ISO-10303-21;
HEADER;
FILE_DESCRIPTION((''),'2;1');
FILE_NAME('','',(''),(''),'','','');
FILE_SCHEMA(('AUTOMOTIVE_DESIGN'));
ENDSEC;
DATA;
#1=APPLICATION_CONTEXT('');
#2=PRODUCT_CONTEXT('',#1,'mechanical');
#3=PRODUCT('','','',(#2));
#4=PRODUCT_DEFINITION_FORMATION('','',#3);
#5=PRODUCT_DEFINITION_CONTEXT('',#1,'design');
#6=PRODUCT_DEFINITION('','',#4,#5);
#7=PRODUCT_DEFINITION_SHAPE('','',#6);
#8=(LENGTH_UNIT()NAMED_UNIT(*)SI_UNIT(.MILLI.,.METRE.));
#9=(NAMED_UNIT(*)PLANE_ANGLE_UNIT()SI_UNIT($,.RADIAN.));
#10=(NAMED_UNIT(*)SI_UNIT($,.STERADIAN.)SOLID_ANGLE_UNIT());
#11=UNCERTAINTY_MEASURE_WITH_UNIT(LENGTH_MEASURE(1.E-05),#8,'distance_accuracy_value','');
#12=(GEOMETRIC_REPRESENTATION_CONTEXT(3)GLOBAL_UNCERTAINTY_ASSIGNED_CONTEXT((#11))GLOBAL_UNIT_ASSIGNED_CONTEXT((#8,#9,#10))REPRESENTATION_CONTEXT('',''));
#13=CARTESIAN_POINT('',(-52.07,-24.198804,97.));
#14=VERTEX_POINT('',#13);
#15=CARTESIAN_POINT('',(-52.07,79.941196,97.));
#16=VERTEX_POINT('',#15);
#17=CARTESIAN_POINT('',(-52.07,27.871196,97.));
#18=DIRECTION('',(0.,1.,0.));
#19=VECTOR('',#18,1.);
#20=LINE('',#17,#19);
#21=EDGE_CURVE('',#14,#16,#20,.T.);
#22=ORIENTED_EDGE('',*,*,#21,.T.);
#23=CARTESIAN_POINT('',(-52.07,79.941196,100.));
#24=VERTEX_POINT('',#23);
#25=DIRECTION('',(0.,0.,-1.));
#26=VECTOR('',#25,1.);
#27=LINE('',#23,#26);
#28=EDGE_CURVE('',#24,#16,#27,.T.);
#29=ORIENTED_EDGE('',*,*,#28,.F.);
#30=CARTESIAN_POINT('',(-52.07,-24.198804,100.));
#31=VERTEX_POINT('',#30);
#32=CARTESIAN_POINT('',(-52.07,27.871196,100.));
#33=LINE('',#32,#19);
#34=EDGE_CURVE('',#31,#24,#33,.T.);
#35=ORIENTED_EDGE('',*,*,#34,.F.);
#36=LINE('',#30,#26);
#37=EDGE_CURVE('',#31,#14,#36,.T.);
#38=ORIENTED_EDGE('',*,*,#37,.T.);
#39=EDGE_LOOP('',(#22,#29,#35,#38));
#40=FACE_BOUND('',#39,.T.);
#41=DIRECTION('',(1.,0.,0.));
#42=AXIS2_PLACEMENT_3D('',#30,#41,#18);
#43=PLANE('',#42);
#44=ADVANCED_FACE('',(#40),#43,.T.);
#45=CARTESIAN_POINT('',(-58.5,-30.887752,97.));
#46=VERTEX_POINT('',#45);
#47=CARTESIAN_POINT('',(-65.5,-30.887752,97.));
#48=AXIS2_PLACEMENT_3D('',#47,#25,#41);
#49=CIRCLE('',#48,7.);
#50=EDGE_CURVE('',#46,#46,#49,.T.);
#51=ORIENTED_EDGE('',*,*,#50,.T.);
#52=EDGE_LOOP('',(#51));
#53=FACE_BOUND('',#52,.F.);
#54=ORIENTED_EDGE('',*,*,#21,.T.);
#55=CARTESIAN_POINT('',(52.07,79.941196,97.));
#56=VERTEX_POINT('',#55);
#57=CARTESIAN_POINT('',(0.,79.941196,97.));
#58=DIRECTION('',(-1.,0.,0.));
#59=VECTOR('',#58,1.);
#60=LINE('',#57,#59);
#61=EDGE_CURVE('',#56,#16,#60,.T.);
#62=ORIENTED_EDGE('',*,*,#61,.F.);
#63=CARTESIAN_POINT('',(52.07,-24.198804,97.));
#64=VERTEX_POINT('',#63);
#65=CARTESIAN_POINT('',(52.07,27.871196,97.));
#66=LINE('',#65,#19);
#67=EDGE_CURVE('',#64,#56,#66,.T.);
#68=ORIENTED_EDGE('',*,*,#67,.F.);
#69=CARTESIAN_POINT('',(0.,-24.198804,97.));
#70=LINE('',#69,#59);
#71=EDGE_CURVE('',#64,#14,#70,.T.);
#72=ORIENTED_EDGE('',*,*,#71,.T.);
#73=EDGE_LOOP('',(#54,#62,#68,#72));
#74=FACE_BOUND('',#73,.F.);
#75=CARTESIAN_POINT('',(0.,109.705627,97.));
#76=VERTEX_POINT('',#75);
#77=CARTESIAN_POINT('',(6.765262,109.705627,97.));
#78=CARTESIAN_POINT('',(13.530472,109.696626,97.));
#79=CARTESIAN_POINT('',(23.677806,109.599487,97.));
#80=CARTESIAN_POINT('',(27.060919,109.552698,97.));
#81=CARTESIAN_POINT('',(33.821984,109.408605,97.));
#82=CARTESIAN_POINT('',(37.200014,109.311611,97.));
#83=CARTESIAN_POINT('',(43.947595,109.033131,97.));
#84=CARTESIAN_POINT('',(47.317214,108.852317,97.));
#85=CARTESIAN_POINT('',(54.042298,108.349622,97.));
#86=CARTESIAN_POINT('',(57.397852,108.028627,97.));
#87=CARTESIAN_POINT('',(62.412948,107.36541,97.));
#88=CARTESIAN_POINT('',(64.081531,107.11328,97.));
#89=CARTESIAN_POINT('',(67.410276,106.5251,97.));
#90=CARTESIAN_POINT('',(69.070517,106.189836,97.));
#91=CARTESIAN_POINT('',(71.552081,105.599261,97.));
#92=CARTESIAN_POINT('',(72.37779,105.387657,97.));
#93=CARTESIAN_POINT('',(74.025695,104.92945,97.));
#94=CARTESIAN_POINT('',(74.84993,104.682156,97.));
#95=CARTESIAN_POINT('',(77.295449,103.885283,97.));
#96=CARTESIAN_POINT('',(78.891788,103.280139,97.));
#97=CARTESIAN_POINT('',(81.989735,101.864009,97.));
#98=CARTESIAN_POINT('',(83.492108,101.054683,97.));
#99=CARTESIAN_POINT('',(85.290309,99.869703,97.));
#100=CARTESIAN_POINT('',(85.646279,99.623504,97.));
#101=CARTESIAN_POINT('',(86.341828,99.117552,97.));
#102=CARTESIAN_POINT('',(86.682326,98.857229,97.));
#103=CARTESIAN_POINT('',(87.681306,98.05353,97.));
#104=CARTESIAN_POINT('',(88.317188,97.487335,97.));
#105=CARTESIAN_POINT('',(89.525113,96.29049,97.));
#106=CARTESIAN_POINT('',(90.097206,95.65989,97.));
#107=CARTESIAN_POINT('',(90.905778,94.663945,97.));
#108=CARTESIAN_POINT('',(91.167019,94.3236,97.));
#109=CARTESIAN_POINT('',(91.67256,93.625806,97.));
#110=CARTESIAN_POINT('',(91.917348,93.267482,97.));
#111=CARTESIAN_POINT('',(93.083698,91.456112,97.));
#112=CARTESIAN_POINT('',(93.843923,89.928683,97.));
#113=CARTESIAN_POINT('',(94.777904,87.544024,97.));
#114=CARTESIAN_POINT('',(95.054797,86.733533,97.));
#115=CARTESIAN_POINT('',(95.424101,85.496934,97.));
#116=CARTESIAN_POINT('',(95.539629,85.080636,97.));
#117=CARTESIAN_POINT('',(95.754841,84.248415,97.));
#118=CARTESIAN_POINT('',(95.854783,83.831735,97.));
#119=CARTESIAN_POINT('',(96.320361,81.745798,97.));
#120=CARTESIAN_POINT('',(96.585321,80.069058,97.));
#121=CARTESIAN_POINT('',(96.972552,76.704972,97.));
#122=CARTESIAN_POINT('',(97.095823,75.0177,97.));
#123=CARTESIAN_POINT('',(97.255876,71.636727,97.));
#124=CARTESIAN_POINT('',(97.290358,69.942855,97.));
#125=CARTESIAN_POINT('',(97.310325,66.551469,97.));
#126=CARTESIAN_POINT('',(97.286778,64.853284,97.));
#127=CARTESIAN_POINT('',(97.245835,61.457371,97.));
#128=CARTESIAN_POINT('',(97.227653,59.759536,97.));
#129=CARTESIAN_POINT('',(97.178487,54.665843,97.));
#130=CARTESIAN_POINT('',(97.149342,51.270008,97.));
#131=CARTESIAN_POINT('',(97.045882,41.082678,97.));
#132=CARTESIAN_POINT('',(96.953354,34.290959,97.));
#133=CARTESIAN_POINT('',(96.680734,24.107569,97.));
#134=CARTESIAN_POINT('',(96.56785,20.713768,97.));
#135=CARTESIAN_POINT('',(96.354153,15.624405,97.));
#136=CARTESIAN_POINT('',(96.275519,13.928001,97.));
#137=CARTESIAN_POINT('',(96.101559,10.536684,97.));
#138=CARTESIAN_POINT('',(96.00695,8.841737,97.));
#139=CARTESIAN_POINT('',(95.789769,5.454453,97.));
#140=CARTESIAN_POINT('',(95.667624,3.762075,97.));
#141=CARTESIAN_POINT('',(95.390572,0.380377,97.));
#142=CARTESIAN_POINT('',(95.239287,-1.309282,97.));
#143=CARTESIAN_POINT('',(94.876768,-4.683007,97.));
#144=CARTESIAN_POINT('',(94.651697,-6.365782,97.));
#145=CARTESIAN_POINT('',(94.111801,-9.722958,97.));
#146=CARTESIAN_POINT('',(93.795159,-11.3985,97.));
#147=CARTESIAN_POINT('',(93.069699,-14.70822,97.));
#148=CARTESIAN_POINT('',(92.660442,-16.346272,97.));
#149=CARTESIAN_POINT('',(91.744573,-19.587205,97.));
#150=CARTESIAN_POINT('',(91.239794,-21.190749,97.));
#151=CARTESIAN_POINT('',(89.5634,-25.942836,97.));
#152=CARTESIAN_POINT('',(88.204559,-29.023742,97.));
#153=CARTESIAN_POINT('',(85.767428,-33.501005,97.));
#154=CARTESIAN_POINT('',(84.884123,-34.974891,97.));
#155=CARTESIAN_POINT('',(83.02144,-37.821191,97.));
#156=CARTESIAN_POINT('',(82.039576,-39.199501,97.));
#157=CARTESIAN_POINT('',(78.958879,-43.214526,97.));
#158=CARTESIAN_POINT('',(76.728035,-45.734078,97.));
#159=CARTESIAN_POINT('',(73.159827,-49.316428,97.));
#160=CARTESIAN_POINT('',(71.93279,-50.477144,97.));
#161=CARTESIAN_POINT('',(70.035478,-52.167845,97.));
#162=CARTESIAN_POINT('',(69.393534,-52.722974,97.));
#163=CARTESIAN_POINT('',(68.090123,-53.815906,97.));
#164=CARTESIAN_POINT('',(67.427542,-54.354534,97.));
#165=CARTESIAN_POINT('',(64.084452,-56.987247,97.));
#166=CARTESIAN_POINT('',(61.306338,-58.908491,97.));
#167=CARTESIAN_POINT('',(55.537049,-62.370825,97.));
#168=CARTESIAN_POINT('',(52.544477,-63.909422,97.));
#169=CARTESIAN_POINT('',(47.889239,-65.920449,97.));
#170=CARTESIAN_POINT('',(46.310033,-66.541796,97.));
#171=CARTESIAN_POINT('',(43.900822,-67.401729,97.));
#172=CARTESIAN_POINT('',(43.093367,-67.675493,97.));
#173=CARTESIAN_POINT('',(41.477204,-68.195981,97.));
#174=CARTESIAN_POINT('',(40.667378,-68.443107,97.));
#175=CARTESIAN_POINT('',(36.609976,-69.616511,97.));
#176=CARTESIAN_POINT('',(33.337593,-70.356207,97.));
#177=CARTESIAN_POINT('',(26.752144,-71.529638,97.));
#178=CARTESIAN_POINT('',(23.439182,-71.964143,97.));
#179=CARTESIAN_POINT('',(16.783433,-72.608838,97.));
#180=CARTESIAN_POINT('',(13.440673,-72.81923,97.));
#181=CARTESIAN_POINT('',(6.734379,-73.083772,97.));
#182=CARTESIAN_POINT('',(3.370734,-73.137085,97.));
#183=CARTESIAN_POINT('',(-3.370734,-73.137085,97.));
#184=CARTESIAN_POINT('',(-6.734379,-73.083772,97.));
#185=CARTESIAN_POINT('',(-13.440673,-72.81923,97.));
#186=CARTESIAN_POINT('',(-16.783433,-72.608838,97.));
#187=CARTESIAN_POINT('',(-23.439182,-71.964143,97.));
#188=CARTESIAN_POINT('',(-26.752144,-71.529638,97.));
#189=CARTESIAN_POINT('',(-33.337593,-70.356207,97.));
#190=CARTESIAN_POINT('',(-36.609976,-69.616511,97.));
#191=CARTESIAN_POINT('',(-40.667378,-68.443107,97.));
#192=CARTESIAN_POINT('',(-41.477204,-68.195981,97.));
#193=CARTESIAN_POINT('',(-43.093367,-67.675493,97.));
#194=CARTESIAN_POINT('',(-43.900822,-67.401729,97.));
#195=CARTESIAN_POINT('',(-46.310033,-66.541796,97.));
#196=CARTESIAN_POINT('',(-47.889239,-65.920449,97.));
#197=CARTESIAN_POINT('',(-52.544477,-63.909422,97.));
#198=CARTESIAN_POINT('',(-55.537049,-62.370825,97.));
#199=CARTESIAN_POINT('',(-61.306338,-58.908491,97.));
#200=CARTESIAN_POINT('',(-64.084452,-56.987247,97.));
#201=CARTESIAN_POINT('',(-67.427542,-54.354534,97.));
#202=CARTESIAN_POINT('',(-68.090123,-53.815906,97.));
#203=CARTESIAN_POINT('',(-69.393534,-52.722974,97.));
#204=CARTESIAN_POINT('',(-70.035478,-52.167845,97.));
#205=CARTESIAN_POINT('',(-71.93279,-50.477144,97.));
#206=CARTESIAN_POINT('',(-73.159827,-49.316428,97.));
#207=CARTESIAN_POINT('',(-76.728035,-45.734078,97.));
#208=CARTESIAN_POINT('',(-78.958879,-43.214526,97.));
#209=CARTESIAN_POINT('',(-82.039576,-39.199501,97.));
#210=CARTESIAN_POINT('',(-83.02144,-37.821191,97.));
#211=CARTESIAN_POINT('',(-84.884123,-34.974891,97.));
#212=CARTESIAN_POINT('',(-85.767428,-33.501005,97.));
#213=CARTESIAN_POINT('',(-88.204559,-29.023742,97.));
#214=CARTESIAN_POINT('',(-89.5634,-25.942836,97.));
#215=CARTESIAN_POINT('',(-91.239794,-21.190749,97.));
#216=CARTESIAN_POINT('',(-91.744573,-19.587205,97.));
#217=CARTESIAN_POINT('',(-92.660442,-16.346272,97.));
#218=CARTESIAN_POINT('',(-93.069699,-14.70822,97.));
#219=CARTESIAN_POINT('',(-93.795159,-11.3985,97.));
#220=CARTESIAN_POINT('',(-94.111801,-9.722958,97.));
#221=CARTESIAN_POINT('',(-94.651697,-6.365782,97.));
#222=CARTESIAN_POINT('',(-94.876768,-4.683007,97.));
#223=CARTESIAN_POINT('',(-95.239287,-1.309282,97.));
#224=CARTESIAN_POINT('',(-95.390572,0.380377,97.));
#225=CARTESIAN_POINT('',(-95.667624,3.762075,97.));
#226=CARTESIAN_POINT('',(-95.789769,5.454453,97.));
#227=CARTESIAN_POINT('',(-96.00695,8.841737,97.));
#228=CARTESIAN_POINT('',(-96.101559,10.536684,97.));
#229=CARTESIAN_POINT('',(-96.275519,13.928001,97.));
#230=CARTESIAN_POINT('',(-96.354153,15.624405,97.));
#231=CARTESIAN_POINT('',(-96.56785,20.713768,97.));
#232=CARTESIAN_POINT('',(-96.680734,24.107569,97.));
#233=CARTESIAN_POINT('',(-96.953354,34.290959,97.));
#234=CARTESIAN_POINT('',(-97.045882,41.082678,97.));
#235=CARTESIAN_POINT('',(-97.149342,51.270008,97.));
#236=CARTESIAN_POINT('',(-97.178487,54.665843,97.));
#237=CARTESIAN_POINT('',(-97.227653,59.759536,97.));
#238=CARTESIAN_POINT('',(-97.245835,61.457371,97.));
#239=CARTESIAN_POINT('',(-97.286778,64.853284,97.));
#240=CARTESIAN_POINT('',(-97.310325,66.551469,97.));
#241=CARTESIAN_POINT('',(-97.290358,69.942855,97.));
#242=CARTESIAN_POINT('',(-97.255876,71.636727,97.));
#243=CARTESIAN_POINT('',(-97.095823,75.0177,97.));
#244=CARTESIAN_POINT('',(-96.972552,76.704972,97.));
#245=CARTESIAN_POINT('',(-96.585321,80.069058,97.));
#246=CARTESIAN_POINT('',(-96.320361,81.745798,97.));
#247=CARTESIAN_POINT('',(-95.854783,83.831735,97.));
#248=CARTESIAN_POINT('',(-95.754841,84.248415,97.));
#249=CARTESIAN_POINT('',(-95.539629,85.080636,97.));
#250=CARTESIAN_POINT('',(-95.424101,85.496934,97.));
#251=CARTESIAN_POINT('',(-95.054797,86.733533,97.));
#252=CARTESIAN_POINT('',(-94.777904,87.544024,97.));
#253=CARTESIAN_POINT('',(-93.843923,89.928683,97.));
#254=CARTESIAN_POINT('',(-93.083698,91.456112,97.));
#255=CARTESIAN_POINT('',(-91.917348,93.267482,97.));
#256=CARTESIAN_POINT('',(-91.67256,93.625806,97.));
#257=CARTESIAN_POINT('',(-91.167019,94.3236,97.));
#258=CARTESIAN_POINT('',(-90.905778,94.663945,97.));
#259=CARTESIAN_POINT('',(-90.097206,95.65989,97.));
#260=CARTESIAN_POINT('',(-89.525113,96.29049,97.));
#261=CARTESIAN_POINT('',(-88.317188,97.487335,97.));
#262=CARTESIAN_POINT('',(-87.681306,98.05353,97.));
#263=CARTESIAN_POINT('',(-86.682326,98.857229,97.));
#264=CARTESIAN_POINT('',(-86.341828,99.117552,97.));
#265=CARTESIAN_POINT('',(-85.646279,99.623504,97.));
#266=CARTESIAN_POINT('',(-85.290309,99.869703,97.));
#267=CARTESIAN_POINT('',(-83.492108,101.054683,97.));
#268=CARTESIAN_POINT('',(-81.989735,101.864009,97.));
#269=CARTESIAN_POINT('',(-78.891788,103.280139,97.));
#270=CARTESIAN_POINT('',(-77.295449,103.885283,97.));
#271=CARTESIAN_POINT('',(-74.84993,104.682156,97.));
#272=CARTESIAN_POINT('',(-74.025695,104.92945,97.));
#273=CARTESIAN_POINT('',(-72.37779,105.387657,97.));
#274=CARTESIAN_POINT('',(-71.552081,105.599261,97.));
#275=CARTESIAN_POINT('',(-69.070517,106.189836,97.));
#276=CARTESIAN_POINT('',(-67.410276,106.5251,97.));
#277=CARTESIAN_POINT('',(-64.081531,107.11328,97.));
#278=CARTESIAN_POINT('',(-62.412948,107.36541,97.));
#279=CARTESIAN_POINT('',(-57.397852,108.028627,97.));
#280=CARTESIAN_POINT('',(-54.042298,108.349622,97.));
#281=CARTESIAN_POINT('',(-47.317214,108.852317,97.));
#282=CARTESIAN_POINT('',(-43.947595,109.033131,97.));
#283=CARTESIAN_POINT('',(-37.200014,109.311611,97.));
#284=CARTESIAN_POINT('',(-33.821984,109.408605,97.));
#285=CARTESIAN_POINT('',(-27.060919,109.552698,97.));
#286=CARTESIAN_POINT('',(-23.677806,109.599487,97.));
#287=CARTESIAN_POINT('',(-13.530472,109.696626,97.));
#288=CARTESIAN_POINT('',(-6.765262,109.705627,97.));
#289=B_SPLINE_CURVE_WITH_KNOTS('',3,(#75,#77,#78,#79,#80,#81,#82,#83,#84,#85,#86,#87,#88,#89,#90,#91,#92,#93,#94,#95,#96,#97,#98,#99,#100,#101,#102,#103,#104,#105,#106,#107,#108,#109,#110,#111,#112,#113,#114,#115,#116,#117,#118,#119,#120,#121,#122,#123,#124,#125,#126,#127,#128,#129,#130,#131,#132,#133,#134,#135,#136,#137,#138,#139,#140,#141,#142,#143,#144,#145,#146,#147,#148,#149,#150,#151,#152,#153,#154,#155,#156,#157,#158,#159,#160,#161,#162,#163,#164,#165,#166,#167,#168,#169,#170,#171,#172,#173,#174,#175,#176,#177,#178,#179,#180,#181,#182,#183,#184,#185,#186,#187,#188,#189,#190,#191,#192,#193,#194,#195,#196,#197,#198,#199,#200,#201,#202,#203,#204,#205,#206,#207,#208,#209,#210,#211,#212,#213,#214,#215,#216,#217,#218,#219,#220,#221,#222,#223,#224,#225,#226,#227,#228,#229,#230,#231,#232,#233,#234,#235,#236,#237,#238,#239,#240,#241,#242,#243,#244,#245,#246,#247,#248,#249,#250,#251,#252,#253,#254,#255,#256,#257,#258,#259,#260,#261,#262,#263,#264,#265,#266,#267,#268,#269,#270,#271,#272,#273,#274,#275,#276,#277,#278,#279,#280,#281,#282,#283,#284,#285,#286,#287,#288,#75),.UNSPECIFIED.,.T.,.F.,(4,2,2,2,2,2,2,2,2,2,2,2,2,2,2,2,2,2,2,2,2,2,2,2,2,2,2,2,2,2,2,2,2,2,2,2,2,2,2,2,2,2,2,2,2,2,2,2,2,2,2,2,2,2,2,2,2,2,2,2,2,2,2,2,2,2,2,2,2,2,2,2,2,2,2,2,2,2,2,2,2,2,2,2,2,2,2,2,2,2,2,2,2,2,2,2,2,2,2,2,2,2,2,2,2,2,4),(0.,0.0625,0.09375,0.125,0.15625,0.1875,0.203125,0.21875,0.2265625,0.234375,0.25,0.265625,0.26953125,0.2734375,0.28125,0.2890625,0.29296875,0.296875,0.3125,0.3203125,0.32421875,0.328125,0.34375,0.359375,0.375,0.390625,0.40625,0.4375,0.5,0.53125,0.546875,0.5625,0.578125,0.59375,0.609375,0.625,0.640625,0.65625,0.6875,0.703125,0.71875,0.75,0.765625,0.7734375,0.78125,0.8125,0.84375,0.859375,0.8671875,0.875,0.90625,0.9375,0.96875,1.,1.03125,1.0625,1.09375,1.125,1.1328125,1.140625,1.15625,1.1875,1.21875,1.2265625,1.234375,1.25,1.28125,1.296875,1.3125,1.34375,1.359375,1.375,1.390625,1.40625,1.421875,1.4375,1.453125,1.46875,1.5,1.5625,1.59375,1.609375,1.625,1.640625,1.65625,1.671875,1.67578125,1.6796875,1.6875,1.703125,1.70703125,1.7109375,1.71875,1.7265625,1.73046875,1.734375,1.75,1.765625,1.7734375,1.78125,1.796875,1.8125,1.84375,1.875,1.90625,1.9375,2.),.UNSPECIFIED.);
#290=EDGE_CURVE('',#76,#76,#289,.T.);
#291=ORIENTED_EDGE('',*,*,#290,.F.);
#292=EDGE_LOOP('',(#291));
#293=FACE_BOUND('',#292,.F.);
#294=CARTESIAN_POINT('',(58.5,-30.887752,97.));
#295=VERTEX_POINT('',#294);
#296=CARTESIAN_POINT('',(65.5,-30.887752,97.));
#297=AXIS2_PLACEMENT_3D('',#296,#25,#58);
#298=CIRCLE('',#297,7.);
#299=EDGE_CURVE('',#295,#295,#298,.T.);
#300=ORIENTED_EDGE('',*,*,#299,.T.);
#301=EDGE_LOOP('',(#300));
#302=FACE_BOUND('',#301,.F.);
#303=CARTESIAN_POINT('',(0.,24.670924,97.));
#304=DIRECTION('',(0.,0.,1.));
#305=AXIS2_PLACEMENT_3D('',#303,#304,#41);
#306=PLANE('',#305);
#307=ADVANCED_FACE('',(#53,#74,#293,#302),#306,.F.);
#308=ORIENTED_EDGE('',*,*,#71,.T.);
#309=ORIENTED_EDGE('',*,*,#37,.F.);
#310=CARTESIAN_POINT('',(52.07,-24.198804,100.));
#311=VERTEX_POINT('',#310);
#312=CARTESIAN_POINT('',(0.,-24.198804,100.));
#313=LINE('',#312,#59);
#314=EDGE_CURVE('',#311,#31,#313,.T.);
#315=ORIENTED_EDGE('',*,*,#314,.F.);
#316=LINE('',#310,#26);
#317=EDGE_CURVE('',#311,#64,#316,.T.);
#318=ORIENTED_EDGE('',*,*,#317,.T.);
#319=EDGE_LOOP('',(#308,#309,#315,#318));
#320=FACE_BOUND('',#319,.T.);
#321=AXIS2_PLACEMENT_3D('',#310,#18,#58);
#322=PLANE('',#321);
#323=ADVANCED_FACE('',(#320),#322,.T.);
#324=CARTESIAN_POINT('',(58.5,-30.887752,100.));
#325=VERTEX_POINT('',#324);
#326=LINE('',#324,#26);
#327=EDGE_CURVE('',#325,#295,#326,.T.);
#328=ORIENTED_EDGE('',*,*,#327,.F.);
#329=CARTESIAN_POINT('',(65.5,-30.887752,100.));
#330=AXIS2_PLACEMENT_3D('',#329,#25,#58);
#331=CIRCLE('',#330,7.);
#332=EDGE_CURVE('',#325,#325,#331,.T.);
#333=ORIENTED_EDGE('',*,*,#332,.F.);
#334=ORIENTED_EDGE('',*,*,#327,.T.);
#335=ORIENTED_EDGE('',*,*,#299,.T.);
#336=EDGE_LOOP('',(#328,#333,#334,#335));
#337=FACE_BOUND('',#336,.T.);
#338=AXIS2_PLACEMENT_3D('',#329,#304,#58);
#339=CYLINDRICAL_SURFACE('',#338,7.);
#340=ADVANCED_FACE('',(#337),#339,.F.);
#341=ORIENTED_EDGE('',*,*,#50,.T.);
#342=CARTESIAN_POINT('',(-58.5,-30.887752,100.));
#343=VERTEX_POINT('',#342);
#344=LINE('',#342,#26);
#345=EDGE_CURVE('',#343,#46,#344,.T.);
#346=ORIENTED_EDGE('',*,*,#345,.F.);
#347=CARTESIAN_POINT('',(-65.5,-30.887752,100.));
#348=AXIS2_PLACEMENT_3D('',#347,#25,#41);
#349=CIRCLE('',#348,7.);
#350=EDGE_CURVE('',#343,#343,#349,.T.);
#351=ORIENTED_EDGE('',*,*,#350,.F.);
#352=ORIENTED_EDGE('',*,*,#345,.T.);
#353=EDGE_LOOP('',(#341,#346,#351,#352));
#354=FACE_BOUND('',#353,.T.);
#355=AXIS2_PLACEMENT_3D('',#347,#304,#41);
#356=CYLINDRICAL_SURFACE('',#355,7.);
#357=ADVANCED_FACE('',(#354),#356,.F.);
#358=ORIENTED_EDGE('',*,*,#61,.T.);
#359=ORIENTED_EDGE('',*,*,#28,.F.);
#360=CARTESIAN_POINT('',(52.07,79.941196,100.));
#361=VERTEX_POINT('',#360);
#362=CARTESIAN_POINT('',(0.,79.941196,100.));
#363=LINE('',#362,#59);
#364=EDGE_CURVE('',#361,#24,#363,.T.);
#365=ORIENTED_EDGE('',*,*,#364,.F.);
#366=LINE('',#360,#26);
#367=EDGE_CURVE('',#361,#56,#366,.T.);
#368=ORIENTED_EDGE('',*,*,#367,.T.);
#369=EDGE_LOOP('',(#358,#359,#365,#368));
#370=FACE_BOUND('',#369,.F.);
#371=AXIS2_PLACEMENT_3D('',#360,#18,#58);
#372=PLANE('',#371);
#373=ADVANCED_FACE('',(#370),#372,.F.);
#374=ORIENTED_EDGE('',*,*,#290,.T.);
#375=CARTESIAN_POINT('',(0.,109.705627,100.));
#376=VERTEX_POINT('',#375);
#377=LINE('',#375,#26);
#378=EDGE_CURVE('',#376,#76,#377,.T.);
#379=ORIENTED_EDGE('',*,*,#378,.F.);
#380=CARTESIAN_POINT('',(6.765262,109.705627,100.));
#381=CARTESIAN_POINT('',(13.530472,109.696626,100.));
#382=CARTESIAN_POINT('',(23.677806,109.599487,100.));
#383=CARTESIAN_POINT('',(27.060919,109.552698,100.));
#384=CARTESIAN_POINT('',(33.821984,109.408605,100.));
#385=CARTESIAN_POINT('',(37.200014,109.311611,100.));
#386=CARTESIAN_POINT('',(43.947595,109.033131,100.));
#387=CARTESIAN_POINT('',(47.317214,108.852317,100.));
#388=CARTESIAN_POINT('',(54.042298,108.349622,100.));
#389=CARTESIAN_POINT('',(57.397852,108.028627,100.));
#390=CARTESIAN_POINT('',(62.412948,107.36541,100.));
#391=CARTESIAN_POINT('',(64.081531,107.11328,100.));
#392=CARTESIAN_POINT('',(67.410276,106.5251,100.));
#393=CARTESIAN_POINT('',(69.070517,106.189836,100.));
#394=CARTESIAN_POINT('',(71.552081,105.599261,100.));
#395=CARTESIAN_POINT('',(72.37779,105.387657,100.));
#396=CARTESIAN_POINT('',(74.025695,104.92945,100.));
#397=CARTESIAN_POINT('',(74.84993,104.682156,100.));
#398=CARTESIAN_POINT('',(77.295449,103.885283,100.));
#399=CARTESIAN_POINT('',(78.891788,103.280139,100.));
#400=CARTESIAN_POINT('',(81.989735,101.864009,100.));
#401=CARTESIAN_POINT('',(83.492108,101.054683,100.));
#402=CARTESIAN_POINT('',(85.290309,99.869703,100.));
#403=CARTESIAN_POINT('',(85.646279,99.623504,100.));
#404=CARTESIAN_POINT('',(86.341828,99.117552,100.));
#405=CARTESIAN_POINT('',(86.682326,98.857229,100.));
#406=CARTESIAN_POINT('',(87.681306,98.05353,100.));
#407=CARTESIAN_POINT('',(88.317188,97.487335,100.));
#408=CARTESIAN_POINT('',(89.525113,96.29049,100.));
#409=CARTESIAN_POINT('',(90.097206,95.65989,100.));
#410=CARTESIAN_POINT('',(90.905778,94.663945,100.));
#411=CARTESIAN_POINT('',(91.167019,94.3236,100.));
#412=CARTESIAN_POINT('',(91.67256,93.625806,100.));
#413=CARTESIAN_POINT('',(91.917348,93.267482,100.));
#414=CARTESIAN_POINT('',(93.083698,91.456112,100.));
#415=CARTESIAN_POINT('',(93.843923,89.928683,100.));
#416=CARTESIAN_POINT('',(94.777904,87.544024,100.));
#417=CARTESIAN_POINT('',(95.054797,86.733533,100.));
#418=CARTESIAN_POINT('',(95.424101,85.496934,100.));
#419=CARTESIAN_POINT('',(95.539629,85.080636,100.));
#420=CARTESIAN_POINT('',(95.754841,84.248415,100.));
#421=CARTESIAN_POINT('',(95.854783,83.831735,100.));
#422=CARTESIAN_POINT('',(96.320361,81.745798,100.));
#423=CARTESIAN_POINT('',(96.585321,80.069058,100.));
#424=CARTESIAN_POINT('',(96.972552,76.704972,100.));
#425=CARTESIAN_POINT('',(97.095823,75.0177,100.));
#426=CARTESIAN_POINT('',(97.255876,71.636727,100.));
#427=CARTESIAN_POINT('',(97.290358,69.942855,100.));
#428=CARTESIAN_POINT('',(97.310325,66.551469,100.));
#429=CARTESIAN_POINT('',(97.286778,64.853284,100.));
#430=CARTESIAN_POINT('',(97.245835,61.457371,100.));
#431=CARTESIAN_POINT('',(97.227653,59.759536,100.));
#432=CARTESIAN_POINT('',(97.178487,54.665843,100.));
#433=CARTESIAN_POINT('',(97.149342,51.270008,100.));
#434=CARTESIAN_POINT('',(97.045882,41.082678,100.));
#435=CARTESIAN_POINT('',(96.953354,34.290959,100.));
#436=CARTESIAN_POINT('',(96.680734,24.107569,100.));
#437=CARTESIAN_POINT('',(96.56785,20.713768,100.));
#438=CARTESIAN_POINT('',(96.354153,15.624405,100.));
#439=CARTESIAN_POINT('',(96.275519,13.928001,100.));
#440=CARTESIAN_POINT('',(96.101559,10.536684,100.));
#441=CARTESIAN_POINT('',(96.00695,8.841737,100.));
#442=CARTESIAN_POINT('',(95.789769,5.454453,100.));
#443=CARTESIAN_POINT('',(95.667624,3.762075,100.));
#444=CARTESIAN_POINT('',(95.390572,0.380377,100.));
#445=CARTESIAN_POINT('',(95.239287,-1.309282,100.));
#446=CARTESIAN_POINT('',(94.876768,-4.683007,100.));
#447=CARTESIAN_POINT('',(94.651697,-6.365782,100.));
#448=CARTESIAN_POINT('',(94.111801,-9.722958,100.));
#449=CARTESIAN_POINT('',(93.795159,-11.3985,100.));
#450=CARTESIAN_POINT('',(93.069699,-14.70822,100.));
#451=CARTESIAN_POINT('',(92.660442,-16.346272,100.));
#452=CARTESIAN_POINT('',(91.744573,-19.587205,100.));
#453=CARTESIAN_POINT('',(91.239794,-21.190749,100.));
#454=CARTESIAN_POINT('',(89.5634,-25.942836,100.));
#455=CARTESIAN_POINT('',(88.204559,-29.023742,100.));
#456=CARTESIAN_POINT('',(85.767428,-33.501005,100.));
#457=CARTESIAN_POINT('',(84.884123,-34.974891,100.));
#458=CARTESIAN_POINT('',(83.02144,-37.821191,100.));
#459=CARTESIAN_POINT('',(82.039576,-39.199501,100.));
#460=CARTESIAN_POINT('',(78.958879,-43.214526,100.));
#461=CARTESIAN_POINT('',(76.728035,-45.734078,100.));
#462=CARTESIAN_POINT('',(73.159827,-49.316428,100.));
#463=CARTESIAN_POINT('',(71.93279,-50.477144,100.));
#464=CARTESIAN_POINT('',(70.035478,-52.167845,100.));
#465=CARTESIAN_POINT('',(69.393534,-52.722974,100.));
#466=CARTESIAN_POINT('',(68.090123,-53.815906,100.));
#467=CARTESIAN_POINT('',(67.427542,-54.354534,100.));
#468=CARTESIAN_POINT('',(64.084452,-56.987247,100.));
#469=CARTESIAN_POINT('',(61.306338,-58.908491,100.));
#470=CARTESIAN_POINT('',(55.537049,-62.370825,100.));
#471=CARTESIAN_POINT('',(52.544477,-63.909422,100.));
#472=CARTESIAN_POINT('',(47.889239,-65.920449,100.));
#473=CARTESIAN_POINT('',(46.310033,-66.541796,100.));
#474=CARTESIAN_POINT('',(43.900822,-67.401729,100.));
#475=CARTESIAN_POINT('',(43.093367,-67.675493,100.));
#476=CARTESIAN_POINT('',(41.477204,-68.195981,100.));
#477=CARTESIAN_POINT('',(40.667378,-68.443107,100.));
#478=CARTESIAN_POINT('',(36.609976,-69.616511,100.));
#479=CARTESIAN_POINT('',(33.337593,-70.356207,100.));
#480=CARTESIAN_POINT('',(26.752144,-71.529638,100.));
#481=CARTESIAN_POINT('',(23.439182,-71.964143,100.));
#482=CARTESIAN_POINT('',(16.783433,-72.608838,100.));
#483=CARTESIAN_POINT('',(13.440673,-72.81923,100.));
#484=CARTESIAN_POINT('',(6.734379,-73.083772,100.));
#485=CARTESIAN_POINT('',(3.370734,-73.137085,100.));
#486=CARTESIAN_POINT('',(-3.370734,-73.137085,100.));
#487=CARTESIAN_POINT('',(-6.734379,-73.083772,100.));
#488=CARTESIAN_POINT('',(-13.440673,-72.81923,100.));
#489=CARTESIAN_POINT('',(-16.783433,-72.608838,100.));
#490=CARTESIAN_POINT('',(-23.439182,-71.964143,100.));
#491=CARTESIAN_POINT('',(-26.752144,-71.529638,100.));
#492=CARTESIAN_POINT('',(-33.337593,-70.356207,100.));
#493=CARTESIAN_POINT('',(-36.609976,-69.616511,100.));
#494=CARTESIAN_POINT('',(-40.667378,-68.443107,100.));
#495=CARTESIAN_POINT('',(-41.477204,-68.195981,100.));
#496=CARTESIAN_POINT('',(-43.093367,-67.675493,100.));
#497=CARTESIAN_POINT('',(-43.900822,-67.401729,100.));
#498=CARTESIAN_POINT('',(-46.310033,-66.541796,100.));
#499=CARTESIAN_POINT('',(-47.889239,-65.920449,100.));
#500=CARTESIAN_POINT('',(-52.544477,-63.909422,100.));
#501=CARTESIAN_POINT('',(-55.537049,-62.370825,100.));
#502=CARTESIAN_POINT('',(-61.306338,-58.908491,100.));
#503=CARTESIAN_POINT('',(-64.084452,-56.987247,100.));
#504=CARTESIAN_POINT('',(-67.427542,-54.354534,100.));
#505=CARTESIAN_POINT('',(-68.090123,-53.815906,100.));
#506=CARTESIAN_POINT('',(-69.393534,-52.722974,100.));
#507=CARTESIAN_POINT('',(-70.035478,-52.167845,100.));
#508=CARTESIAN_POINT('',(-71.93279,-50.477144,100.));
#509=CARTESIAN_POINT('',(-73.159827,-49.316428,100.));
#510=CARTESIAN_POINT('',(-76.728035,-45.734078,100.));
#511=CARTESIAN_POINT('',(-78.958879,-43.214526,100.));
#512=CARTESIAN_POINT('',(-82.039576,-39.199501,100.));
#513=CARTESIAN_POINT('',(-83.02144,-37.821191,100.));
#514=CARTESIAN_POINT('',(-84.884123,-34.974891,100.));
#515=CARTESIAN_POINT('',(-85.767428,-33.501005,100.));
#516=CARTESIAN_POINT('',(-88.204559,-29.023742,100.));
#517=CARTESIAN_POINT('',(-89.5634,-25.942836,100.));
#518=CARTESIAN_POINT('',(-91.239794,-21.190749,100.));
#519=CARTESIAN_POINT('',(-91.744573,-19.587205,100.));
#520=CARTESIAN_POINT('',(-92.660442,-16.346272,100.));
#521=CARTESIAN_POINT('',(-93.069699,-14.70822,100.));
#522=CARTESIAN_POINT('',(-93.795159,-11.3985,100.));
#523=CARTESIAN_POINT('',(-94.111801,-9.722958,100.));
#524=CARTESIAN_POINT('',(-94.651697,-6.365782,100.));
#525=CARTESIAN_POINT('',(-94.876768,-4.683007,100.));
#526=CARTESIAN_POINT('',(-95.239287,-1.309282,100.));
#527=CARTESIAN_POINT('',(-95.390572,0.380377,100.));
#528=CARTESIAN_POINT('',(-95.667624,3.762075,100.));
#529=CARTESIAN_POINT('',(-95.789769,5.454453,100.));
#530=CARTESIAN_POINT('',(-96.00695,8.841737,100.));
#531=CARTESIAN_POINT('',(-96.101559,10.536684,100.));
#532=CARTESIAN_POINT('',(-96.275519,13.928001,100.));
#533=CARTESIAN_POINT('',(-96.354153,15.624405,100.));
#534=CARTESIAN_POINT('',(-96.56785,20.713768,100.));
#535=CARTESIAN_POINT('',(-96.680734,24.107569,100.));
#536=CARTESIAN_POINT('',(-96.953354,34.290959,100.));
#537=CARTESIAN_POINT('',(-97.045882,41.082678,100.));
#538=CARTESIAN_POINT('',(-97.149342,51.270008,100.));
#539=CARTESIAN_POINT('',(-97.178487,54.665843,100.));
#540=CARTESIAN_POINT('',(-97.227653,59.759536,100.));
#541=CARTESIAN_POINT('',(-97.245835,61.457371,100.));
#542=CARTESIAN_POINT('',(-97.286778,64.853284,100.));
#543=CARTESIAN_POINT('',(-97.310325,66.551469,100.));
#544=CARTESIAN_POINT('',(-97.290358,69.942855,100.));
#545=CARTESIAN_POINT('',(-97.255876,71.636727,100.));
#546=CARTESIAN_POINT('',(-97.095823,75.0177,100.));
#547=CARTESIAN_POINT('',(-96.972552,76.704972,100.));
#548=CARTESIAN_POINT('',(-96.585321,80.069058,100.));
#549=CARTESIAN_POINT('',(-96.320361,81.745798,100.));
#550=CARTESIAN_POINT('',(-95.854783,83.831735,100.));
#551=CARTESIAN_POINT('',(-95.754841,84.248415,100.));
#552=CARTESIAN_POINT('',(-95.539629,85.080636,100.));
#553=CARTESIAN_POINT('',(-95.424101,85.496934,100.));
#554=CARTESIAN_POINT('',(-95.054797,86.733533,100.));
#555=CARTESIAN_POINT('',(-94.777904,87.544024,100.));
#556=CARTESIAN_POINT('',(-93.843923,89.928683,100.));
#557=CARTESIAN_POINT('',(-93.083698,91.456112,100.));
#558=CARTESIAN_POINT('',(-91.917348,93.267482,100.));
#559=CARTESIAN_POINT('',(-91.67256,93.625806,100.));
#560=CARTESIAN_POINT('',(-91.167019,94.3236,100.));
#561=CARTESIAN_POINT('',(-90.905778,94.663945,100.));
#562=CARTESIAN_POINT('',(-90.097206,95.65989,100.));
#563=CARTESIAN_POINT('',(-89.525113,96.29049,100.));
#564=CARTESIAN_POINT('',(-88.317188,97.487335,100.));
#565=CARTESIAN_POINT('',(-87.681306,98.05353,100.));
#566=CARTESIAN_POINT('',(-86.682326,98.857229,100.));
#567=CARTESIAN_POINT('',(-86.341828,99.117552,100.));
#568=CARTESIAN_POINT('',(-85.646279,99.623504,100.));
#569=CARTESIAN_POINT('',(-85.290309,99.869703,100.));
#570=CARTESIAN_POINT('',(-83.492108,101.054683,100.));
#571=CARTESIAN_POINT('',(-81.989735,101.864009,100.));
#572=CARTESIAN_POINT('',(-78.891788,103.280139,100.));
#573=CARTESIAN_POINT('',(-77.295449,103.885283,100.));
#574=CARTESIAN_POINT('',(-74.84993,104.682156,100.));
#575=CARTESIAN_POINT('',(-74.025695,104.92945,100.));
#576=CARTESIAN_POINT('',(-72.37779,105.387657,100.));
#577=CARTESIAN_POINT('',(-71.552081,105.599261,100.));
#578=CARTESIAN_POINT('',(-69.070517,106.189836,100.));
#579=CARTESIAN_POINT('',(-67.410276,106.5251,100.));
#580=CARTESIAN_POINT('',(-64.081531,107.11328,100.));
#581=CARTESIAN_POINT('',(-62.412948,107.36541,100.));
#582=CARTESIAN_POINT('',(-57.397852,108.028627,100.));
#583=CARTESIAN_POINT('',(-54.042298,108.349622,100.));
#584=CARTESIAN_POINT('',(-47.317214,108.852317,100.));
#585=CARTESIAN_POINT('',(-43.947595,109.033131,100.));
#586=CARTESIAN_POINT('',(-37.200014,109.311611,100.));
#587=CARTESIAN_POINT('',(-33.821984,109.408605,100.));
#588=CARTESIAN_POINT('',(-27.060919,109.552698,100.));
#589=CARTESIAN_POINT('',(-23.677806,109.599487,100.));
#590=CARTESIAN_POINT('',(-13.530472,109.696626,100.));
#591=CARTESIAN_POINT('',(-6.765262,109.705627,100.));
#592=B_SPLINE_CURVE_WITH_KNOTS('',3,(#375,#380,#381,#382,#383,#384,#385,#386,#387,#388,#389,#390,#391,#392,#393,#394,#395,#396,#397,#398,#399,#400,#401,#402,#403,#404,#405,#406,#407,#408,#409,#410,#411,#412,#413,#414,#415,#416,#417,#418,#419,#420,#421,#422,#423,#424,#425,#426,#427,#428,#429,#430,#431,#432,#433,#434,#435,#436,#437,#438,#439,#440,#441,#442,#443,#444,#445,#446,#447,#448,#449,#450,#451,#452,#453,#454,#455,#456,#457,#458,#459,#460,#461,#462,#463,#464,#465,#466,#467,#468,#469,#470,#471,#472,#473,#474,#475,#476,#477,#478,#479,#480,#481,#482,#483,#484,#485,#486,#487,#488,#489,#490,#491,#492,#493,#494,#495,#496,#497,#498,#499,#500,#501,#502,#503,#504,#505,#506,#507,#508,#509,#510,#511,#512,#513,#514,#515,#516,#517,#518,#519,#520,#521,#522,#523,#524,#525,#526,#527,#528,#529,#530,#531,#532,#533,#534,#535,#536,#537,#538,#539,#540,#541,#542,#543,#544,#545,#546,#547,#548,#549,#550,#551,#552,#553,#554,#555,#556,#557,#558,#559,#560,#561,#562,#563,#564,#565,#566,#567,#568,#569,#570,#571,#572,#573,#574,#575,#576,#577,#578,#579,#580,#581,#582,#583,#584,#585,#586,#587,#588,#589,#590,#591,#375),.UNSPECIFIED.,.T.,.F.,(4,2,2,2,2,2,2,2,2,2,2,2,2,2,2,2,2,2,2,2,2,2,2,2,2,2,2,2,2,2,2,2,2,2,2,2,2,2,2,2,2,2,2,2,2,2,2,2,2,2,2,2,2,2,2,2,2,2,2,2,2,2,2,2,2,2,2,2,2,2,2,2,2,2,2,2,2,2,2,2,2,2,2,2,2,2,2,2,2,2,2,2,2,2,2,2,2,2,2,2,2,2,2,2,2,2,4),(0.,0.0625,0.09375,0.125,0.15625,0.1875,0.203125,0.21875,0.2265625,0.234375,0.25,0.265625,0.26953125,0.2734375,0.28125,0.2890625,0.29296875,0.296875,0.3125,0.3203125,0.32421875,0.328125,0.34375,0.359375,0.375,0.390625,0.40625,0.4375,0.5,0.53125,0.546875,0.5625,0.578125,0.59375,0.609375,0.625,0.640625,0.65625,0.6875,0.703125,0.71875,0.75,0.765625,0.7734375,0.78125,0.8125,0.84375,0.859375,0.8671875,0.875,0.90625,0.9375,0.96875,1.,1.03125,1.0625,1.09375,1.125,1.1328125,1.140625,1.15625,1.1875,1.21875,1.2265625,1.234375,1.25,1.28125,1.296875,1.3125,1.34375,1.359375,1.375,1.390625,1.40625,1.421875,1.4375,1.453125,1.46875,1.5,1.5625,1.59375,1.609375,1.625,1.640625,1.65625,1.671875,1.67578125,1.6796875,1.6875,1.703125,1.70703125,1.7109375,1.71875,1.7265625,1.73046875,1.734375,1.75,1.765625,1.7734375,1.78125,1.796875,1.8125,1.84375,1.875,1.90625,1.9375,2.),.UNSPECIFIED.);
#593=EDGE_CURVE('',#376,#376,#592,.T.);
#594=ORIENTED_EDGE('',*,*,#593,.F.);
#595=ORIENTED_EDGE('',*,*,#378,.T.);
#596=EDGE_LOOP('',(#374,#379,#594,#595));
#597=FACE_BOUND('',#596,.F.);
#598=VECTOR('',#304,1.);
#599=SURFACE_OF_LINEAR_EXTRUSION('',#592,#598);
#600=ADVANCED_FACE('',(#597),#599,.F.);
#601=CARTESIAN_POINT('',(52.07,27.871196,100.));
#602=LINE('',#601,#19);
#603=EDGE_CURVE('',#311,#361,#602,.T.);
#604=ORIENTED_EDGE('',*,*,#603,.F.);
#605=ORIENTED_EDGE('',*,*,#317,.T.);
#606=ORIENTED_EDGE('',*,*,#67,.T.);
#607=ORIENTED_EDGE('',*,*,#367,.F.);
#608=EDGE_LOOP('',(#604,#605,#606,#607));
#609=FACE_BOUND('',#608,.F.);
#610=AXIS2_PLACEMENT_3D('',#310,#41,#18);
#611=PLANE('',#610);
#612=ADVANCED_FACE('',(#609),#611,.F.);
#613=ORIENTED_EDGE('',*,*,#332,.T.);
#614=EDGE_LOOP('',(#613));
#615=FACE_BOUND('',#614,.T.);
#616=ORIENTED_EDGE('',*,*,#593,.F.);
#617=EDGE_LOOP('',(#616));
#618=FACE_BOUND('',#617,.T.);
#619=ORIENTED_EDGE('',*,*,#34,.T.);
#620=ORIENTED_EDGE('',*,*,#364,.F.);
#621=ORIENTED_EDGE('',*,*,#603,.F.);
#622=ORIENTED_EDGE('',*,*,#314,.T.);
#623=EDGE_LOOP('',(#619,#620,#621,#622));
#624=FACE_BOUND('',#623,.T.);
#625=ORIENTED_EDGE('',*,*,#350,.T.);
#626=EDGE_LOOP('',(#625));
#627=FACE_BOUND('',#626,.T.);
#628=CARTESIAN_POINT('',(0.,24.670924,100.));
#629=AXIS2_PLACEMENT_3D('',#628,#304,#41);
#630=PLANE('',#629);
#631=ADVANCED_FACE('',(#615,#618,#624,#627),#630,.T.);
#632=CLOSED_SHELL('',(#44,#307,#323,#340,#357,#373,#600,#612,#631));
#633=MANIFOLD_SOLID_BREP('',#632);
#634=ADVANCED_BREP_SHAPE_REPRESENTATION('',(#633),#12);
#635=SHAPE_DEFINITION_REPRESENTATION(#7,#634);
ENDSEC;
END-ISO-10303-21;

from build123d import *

# Parameters (mm, degrees)
SKETCH1_R           = 7
SKETCH1_R_2         = 7.000000001
SKETCH1_W           = 104.14
SKETCH1_H           = 104.14
BOSS_EXTRUDE1_DEPTH = 3


with BuildPart() as part:
    # Sketch1 → Boss-Extrude1 (new body)
    with BuildSketch(Plane(origin=(0, 0, 100), x_dir=(-1, 0, 0), z_dir=(0, 0, -1))):
        with BuildLine():
            add(Edge.make_bspline(
                [(-1e-09, -73.137085013), (-3.370733736, -73.137085013), (-6.734378943, -73.083771669), (-13.440672959, -72.819229501), (-16.783433063, -72.608837747), (-23.439182049, -71.964142651), (-26.752144152, -71.529637912), (-33.33759261, -70.356207321), (-36.60997649, -69.616510751), (-40.667378232, -68.443107129), (-41.477203817, -68.195980803), (-43.093366771, -67.675493026), (-43.900822122, -67.401729181), (-46.310032737, -66.541796001), (-47.889238607, -65.92044891), (-52.544477218, -63.909421833), (-55.537048564, -62.370824761), (-61.306337859, -58.908491373), (-64.084452162, -56.98724652), (-67.427542086, -54.354533899), (-68.090122652, -53.815906347), (-69.393533804, -52.722974051), (-70.035477989, -52.167844506), (-71.932790396, -50.47714376), (-73.159826692, -49.316427503), (-76.728035335, -45.734077875), (-78.958878587, -43.214525591), (-82.039575544, -39.199501195), (-83.021440244, -37.821191048), (-84.88412339, -34.974890516), (-85.767427654, -33.501005365), (-88.204559187, -29.023741799), (-89.563400092, -25.942835856), (-91.239794175, -21.190749213), (-91.74457302, -19.587205428), (-92.660442382, -16.346272129), (-93.069699195, -14.708220172), (-93.795158786, -11.398499673), (-94.111800727, -9.722957871), (-94.651697476, -6.365781752), (-94.87676845, -4.6830068), (-95.239286804, -1.309281941), (-95.39057167, 0.380376979), (-95.667624115, 3.762075486), (-95.789769063, 5.454453052), (-96.006949572, 8.841737387), (-96.101559279, 10.536683887), (-96.275518719, 13.928000585), (-96.3541526, 15.624404776), (-96.567849925, 20.713768319), (-96.680733557, 24.107568552), (-96.953354403, 34.290958559), (-97.04588188, 41.082678484), (-97.149341973, 51.270007833), (-97.178486911, 54.665842901), (-97.227652976, 59.759535712), (-97.245834664, 61.457370788), (-97.286778342, 64.853283992), (-97.310325044, 66.551469151), (-97.290358192, 69.942854821), (-97.255875699, 71.636726618), (-97.09582269, 75.017699558), (-96.972551619, 76.704971621), (-96.585320654, 80.06905822), (-96.320360567, 81.745798411), (-95.854782835, 83.831735242), (-95.754841059, 84.248415208), (-95.539629218, 85.080635775), (-95.424100672, 85.496934333), (-95.054796974, 86.733533), (-94.777904174, 87.544024069), (-93.84392333, 89.928683353), (-93.083697513, 91.456112273), (-91.917347528, 93.267482281), (-91.672560415, 93.6258059), (-91.167018785, 94.323599626), (-90.905778308, 94.663945051), (-90.097205711, 95.659890217), (-89.525112782, 96.290490077), (-88.317187597, 97.487335056), (-87.6813056, 98.053529952), (-86.682325789, 98.857229484), (-86.341828077, 99.117552429), (-85.646278974, 99.623504122), (-85.290309402, 99.869702545), (-83.492108358, 101.054683185), (-81.989735399, 101.864008562), (-78.891787842, 103.280138886), (-77.295448939, 103.885283055), (-74.849929741, 104.68215643), (-74.025694859, 104.929450071), (-72.377789623, 105.387657064), (-71.552081134, 105.599261026), (-69.070517041, 106.189836208), (-67.410275941, 106.525100239), (-64.081531041, 107.113279731), (-62.412948454, 107.365409975), (-57.397851787, 108.028626666), (-54.042298135, 108.349622004), (-47.317214164, 108.852316963), (-43.947594988, 109.033131006), (-37.200013677, 109.311610648), (-33.821984223, 109.408605309), (-27.060918817, 109.552698361), (-23.677806003, 109.599487384), (-13.530472118, 109.696626212), (-6.765261961, 109.705627481), (0, 109.705627484)],
                knots=[0, 0, 0, 0, 0.03125, 0.03125, 0.0625, 0.0625, 0.09375, 0.09375, 0.125, 0.125, 0.1328125, 0.1328125, 0.140625, 0.140625, 0.15625, 0.15625, 0.1875, 0.1875, 0.21875, 0.21875, 0.2265625, 0.2265625, 0.234375, 0.234375, 0.25, 0.25, 0.28125, 0.28125, 0.296875, 0.296875, 0.3125, 0.3125, 0.34375, 0.34375, 0.359375, 0.359375, 0.375, 0.375, 0.390625, 0.390625, 0.40625, 0.40625, 0.421875, 0.421875, 0.4375, 0.4375, 0.453125, 0.453125, 0.46875, 0.46875, 0.5, 0.5, 0.5625, 0.5625, 0.59375, 0.59375, 0.609375, 0.609375, 0.625, 0.625, 0.640625, 0.640625, 0.65625, 0.65625, 0.671875, 0.671875, 0.67578125, 0.67578125, 0.6796875, 0.6796875, 0.6875, 0.6875, 0.703125, 0.703125, 0.70703125, 0.70703125, 0.7109375, 0.7109375, 0.71875, 0.71875, 0.7265625, 0.7265625, 0.73046875, 0.73046875, 0.734375, 0.734375, 0.75, 0.75, 0.765625, 0.765625, 0.7734375, 0.7734375, 0.78125, 0.78125, 0.796875, 0.796875, 0.8125, 0.8125, 0.84375, 0.84375, 0.875, 0.875, 0.90625, 0.90625, 0.9375, 0.9375, 1, 1, 1, 1], degree=3))
            add(Edge.make_bspline(
                [(-1e-09, -73.137085013), (3.370733735, -73.137085013), (6.734378942, -73.083771669), (13.440672958, -72.819229501), (16.783433062, -72.608837747), (23.439182048, -71.964142651), (26.752144151, -71.529637912), (33.337592609, -70.356207322), (36.609976489, -69.616510752), (40.667378232, -68.44310713), (41.477203816, -68.195980803), (43.093366771, -67.675493027), (43.900822121, -67.401729181), (46.310032736, -66.541796001), (47.889238606, -65.920448911), (52.544477218, -63.909421834), (55.537048563, -62.370824761), (61.306337859, -58.908491374), (64.084452162, -56.98724652), (67.427542085, -54.3545339), (68.090122651, -53.815906348), (69.393533803, -52.722974052), (70.035477989, -52.167844506), (71.932790395, -50.47714376), (73.159826692, -49.316427504), (76.728035334, -45.734077876), (78.958878587, -43.214525592), (82.039575543, -39.199501196), (83.021440244, -37.821191049), (84.884123389, -34.974890517), (85.767427654, -33.501005366), (88.204559186, -29.0237418), (89.563400092, -25.942835857), (91.239794175, -21.190749214), (91.74457302, -19.58720543), (92.660442382, -16.34627213), (93.069699195, -14.708220173), (93.795158786, -11.398499674), (94.111800727, -9.722957872), (94.651697476, -6.365781754), (94.87676845, -4.683006801), (95.239286804, -1.309281942), (95.39057167, 0.380376978), (95.667624115, 3.762075485), (95.789769063, 5.454453051), (96.006949572, 8.841737385), (96.101559279, 10.536683886), (96.275518719, 13.928000584), (96.3541526, 15.624404775), (96.567849925, 20.713768318), (96.680733557, 24.107568551), (96.953354403, 34.290958558), (97.04588188, 41.082678483), (97.149341974, 51.270007832), (97.178486911, 54.6658429), (97.227652977, 59.759535711), (97.245834665, 61.457370787), (97.286778343, 64.853283991), (97.310325044, 66.55146915), (97.290358192, 69.94285482), (97.2558757, 71.636726617), (97.095822691, 75.017699557), (96.97255162, 76.70497162), (96.585320655, 80.069058219), (96.320360568, 81.74579841), (95.854782836, 83.83173524), (95.75484106, 84.248415207), (95.539629219, 85.080635774), (95.424100673, 85.496934331), (95.054796975, 86.733532999), (94.777904175, 87.544024068), (93.843923331, 89.928683352), (93.083697514, 91.456112272), (91.91734753, 93.26748228), (91.672560416, 93.625805898), (91.167018786, 94.323599625), (90.905778309, 94.66394505), (90.097205713, 95.659890216), (89.525112783, 96.290490076), (88.317187599, 97.487335055), (87.681305601, 98.053529951), (86.682325791, 98.857229483), (86.341828078, 99.117552428), (85.646278975, 99.623504121), (85.290309403, 99.869702544), (83.492108359, 101.054683184), (81.9897354, 101.864008561), (78.891787843, 103.280138886), (77.29544894, 103.885283054), (74.849929743, 104.682156429), (74.025694861, 104.92945007), (72.377789624, 105.387657063), (71.552081135, 105.599261025), (69.070517043, 106.189836207), (67.410275942, 106.525100238), (64.081531042, 107.11327973), (62.412948455, 107.365409974), (57.397851788, 108.028626665), (54.042298136, 108.349622003), (47.317214166, 108.852316963), (43.947594989, 109.033131006), (37.200013679, 109.311610647), (33.821984224, 109.408605308), (27.060918818, 109.55269836), (23.677806004, 109.599487383), (13.530472119, 109.696626212), (6.765261962, 109.705627481), (0, 109.705627484)],
                knots=[0, 0, 0, 0, 0.03125, 0.03125, 0.0625, 0.0625, 0.09375, 0.09375, 0.125, 0.125, 0.1328125, 0.1328125, 0.140625, 0.140625, 0.15625, 0.15625, 0.1875, 0.1875, 0.21875, 0.21875, 0.2265625, 0.2265625, 0.234375, 0.234375, 0.25, 0.25, 0.28125, 0.28125, 0.296875, 0.296875, 0.3125, 0.3125, 0.34375, 0.34375, 0.359375, 0.359375, 0.375, 0.375, 0.390625, 0.390625, 0.40625, 0.40625, 0.421875, 0.421875, 0.4375, 0.4375, 0.453125, 0.453125, 0.46875, 0.46875, 0.5, 0.5, 0.5625, 0.5625, 0.59375, 0.59375, 0.609375, 0.609375, 0.625, 0.625, 0.640625, 0.640625, 0.65625, 0.65625, 0.671875, 0.671875, 0.67578125, 0.67578125, 0.6796875, 0.6796875, 0.6875, 0.6875, 0.703125, 0.703125, 0.70703125, 0.70703125, 0.7109375, 0.7109375, 0.71875, 0.71875, 0.7265625, 0.7265625, 0.73046875, 0.73046875, 0.734375, 0.734375, 0.75, 0.75, 0.765625, 0.765625, 0.7734375, 0.7734375, 0.78125, 0.78125, 0.796875, 0.796875, 0.8125, 0.8125, 0.84375, 0.84375, 0.875, 0.875, 0.90625, 0.90625, 0.9375, 0.9375, 1, 1, 1, 1], degree=3))
        make_face()
        with Locations((-65.5, -30.887752409)):
            Circle(SKETCH1_R, mode=Mode.SUBTRACT)
        with Locations(Location((65.5, -30.887752409, 0), (0, 0, 180))):
            Circle(SKETCH1_R_2, mode=Mode.SUBTRACT)
        with Locations((0, 27.871196428)):
            Rectangle(SKETCH1_W, SKETCH1_H, mode=Mode.SUBTRACT)
    extrude(amount=BOSS_EXTRUDE1_DEPTH)


solid = part.part
